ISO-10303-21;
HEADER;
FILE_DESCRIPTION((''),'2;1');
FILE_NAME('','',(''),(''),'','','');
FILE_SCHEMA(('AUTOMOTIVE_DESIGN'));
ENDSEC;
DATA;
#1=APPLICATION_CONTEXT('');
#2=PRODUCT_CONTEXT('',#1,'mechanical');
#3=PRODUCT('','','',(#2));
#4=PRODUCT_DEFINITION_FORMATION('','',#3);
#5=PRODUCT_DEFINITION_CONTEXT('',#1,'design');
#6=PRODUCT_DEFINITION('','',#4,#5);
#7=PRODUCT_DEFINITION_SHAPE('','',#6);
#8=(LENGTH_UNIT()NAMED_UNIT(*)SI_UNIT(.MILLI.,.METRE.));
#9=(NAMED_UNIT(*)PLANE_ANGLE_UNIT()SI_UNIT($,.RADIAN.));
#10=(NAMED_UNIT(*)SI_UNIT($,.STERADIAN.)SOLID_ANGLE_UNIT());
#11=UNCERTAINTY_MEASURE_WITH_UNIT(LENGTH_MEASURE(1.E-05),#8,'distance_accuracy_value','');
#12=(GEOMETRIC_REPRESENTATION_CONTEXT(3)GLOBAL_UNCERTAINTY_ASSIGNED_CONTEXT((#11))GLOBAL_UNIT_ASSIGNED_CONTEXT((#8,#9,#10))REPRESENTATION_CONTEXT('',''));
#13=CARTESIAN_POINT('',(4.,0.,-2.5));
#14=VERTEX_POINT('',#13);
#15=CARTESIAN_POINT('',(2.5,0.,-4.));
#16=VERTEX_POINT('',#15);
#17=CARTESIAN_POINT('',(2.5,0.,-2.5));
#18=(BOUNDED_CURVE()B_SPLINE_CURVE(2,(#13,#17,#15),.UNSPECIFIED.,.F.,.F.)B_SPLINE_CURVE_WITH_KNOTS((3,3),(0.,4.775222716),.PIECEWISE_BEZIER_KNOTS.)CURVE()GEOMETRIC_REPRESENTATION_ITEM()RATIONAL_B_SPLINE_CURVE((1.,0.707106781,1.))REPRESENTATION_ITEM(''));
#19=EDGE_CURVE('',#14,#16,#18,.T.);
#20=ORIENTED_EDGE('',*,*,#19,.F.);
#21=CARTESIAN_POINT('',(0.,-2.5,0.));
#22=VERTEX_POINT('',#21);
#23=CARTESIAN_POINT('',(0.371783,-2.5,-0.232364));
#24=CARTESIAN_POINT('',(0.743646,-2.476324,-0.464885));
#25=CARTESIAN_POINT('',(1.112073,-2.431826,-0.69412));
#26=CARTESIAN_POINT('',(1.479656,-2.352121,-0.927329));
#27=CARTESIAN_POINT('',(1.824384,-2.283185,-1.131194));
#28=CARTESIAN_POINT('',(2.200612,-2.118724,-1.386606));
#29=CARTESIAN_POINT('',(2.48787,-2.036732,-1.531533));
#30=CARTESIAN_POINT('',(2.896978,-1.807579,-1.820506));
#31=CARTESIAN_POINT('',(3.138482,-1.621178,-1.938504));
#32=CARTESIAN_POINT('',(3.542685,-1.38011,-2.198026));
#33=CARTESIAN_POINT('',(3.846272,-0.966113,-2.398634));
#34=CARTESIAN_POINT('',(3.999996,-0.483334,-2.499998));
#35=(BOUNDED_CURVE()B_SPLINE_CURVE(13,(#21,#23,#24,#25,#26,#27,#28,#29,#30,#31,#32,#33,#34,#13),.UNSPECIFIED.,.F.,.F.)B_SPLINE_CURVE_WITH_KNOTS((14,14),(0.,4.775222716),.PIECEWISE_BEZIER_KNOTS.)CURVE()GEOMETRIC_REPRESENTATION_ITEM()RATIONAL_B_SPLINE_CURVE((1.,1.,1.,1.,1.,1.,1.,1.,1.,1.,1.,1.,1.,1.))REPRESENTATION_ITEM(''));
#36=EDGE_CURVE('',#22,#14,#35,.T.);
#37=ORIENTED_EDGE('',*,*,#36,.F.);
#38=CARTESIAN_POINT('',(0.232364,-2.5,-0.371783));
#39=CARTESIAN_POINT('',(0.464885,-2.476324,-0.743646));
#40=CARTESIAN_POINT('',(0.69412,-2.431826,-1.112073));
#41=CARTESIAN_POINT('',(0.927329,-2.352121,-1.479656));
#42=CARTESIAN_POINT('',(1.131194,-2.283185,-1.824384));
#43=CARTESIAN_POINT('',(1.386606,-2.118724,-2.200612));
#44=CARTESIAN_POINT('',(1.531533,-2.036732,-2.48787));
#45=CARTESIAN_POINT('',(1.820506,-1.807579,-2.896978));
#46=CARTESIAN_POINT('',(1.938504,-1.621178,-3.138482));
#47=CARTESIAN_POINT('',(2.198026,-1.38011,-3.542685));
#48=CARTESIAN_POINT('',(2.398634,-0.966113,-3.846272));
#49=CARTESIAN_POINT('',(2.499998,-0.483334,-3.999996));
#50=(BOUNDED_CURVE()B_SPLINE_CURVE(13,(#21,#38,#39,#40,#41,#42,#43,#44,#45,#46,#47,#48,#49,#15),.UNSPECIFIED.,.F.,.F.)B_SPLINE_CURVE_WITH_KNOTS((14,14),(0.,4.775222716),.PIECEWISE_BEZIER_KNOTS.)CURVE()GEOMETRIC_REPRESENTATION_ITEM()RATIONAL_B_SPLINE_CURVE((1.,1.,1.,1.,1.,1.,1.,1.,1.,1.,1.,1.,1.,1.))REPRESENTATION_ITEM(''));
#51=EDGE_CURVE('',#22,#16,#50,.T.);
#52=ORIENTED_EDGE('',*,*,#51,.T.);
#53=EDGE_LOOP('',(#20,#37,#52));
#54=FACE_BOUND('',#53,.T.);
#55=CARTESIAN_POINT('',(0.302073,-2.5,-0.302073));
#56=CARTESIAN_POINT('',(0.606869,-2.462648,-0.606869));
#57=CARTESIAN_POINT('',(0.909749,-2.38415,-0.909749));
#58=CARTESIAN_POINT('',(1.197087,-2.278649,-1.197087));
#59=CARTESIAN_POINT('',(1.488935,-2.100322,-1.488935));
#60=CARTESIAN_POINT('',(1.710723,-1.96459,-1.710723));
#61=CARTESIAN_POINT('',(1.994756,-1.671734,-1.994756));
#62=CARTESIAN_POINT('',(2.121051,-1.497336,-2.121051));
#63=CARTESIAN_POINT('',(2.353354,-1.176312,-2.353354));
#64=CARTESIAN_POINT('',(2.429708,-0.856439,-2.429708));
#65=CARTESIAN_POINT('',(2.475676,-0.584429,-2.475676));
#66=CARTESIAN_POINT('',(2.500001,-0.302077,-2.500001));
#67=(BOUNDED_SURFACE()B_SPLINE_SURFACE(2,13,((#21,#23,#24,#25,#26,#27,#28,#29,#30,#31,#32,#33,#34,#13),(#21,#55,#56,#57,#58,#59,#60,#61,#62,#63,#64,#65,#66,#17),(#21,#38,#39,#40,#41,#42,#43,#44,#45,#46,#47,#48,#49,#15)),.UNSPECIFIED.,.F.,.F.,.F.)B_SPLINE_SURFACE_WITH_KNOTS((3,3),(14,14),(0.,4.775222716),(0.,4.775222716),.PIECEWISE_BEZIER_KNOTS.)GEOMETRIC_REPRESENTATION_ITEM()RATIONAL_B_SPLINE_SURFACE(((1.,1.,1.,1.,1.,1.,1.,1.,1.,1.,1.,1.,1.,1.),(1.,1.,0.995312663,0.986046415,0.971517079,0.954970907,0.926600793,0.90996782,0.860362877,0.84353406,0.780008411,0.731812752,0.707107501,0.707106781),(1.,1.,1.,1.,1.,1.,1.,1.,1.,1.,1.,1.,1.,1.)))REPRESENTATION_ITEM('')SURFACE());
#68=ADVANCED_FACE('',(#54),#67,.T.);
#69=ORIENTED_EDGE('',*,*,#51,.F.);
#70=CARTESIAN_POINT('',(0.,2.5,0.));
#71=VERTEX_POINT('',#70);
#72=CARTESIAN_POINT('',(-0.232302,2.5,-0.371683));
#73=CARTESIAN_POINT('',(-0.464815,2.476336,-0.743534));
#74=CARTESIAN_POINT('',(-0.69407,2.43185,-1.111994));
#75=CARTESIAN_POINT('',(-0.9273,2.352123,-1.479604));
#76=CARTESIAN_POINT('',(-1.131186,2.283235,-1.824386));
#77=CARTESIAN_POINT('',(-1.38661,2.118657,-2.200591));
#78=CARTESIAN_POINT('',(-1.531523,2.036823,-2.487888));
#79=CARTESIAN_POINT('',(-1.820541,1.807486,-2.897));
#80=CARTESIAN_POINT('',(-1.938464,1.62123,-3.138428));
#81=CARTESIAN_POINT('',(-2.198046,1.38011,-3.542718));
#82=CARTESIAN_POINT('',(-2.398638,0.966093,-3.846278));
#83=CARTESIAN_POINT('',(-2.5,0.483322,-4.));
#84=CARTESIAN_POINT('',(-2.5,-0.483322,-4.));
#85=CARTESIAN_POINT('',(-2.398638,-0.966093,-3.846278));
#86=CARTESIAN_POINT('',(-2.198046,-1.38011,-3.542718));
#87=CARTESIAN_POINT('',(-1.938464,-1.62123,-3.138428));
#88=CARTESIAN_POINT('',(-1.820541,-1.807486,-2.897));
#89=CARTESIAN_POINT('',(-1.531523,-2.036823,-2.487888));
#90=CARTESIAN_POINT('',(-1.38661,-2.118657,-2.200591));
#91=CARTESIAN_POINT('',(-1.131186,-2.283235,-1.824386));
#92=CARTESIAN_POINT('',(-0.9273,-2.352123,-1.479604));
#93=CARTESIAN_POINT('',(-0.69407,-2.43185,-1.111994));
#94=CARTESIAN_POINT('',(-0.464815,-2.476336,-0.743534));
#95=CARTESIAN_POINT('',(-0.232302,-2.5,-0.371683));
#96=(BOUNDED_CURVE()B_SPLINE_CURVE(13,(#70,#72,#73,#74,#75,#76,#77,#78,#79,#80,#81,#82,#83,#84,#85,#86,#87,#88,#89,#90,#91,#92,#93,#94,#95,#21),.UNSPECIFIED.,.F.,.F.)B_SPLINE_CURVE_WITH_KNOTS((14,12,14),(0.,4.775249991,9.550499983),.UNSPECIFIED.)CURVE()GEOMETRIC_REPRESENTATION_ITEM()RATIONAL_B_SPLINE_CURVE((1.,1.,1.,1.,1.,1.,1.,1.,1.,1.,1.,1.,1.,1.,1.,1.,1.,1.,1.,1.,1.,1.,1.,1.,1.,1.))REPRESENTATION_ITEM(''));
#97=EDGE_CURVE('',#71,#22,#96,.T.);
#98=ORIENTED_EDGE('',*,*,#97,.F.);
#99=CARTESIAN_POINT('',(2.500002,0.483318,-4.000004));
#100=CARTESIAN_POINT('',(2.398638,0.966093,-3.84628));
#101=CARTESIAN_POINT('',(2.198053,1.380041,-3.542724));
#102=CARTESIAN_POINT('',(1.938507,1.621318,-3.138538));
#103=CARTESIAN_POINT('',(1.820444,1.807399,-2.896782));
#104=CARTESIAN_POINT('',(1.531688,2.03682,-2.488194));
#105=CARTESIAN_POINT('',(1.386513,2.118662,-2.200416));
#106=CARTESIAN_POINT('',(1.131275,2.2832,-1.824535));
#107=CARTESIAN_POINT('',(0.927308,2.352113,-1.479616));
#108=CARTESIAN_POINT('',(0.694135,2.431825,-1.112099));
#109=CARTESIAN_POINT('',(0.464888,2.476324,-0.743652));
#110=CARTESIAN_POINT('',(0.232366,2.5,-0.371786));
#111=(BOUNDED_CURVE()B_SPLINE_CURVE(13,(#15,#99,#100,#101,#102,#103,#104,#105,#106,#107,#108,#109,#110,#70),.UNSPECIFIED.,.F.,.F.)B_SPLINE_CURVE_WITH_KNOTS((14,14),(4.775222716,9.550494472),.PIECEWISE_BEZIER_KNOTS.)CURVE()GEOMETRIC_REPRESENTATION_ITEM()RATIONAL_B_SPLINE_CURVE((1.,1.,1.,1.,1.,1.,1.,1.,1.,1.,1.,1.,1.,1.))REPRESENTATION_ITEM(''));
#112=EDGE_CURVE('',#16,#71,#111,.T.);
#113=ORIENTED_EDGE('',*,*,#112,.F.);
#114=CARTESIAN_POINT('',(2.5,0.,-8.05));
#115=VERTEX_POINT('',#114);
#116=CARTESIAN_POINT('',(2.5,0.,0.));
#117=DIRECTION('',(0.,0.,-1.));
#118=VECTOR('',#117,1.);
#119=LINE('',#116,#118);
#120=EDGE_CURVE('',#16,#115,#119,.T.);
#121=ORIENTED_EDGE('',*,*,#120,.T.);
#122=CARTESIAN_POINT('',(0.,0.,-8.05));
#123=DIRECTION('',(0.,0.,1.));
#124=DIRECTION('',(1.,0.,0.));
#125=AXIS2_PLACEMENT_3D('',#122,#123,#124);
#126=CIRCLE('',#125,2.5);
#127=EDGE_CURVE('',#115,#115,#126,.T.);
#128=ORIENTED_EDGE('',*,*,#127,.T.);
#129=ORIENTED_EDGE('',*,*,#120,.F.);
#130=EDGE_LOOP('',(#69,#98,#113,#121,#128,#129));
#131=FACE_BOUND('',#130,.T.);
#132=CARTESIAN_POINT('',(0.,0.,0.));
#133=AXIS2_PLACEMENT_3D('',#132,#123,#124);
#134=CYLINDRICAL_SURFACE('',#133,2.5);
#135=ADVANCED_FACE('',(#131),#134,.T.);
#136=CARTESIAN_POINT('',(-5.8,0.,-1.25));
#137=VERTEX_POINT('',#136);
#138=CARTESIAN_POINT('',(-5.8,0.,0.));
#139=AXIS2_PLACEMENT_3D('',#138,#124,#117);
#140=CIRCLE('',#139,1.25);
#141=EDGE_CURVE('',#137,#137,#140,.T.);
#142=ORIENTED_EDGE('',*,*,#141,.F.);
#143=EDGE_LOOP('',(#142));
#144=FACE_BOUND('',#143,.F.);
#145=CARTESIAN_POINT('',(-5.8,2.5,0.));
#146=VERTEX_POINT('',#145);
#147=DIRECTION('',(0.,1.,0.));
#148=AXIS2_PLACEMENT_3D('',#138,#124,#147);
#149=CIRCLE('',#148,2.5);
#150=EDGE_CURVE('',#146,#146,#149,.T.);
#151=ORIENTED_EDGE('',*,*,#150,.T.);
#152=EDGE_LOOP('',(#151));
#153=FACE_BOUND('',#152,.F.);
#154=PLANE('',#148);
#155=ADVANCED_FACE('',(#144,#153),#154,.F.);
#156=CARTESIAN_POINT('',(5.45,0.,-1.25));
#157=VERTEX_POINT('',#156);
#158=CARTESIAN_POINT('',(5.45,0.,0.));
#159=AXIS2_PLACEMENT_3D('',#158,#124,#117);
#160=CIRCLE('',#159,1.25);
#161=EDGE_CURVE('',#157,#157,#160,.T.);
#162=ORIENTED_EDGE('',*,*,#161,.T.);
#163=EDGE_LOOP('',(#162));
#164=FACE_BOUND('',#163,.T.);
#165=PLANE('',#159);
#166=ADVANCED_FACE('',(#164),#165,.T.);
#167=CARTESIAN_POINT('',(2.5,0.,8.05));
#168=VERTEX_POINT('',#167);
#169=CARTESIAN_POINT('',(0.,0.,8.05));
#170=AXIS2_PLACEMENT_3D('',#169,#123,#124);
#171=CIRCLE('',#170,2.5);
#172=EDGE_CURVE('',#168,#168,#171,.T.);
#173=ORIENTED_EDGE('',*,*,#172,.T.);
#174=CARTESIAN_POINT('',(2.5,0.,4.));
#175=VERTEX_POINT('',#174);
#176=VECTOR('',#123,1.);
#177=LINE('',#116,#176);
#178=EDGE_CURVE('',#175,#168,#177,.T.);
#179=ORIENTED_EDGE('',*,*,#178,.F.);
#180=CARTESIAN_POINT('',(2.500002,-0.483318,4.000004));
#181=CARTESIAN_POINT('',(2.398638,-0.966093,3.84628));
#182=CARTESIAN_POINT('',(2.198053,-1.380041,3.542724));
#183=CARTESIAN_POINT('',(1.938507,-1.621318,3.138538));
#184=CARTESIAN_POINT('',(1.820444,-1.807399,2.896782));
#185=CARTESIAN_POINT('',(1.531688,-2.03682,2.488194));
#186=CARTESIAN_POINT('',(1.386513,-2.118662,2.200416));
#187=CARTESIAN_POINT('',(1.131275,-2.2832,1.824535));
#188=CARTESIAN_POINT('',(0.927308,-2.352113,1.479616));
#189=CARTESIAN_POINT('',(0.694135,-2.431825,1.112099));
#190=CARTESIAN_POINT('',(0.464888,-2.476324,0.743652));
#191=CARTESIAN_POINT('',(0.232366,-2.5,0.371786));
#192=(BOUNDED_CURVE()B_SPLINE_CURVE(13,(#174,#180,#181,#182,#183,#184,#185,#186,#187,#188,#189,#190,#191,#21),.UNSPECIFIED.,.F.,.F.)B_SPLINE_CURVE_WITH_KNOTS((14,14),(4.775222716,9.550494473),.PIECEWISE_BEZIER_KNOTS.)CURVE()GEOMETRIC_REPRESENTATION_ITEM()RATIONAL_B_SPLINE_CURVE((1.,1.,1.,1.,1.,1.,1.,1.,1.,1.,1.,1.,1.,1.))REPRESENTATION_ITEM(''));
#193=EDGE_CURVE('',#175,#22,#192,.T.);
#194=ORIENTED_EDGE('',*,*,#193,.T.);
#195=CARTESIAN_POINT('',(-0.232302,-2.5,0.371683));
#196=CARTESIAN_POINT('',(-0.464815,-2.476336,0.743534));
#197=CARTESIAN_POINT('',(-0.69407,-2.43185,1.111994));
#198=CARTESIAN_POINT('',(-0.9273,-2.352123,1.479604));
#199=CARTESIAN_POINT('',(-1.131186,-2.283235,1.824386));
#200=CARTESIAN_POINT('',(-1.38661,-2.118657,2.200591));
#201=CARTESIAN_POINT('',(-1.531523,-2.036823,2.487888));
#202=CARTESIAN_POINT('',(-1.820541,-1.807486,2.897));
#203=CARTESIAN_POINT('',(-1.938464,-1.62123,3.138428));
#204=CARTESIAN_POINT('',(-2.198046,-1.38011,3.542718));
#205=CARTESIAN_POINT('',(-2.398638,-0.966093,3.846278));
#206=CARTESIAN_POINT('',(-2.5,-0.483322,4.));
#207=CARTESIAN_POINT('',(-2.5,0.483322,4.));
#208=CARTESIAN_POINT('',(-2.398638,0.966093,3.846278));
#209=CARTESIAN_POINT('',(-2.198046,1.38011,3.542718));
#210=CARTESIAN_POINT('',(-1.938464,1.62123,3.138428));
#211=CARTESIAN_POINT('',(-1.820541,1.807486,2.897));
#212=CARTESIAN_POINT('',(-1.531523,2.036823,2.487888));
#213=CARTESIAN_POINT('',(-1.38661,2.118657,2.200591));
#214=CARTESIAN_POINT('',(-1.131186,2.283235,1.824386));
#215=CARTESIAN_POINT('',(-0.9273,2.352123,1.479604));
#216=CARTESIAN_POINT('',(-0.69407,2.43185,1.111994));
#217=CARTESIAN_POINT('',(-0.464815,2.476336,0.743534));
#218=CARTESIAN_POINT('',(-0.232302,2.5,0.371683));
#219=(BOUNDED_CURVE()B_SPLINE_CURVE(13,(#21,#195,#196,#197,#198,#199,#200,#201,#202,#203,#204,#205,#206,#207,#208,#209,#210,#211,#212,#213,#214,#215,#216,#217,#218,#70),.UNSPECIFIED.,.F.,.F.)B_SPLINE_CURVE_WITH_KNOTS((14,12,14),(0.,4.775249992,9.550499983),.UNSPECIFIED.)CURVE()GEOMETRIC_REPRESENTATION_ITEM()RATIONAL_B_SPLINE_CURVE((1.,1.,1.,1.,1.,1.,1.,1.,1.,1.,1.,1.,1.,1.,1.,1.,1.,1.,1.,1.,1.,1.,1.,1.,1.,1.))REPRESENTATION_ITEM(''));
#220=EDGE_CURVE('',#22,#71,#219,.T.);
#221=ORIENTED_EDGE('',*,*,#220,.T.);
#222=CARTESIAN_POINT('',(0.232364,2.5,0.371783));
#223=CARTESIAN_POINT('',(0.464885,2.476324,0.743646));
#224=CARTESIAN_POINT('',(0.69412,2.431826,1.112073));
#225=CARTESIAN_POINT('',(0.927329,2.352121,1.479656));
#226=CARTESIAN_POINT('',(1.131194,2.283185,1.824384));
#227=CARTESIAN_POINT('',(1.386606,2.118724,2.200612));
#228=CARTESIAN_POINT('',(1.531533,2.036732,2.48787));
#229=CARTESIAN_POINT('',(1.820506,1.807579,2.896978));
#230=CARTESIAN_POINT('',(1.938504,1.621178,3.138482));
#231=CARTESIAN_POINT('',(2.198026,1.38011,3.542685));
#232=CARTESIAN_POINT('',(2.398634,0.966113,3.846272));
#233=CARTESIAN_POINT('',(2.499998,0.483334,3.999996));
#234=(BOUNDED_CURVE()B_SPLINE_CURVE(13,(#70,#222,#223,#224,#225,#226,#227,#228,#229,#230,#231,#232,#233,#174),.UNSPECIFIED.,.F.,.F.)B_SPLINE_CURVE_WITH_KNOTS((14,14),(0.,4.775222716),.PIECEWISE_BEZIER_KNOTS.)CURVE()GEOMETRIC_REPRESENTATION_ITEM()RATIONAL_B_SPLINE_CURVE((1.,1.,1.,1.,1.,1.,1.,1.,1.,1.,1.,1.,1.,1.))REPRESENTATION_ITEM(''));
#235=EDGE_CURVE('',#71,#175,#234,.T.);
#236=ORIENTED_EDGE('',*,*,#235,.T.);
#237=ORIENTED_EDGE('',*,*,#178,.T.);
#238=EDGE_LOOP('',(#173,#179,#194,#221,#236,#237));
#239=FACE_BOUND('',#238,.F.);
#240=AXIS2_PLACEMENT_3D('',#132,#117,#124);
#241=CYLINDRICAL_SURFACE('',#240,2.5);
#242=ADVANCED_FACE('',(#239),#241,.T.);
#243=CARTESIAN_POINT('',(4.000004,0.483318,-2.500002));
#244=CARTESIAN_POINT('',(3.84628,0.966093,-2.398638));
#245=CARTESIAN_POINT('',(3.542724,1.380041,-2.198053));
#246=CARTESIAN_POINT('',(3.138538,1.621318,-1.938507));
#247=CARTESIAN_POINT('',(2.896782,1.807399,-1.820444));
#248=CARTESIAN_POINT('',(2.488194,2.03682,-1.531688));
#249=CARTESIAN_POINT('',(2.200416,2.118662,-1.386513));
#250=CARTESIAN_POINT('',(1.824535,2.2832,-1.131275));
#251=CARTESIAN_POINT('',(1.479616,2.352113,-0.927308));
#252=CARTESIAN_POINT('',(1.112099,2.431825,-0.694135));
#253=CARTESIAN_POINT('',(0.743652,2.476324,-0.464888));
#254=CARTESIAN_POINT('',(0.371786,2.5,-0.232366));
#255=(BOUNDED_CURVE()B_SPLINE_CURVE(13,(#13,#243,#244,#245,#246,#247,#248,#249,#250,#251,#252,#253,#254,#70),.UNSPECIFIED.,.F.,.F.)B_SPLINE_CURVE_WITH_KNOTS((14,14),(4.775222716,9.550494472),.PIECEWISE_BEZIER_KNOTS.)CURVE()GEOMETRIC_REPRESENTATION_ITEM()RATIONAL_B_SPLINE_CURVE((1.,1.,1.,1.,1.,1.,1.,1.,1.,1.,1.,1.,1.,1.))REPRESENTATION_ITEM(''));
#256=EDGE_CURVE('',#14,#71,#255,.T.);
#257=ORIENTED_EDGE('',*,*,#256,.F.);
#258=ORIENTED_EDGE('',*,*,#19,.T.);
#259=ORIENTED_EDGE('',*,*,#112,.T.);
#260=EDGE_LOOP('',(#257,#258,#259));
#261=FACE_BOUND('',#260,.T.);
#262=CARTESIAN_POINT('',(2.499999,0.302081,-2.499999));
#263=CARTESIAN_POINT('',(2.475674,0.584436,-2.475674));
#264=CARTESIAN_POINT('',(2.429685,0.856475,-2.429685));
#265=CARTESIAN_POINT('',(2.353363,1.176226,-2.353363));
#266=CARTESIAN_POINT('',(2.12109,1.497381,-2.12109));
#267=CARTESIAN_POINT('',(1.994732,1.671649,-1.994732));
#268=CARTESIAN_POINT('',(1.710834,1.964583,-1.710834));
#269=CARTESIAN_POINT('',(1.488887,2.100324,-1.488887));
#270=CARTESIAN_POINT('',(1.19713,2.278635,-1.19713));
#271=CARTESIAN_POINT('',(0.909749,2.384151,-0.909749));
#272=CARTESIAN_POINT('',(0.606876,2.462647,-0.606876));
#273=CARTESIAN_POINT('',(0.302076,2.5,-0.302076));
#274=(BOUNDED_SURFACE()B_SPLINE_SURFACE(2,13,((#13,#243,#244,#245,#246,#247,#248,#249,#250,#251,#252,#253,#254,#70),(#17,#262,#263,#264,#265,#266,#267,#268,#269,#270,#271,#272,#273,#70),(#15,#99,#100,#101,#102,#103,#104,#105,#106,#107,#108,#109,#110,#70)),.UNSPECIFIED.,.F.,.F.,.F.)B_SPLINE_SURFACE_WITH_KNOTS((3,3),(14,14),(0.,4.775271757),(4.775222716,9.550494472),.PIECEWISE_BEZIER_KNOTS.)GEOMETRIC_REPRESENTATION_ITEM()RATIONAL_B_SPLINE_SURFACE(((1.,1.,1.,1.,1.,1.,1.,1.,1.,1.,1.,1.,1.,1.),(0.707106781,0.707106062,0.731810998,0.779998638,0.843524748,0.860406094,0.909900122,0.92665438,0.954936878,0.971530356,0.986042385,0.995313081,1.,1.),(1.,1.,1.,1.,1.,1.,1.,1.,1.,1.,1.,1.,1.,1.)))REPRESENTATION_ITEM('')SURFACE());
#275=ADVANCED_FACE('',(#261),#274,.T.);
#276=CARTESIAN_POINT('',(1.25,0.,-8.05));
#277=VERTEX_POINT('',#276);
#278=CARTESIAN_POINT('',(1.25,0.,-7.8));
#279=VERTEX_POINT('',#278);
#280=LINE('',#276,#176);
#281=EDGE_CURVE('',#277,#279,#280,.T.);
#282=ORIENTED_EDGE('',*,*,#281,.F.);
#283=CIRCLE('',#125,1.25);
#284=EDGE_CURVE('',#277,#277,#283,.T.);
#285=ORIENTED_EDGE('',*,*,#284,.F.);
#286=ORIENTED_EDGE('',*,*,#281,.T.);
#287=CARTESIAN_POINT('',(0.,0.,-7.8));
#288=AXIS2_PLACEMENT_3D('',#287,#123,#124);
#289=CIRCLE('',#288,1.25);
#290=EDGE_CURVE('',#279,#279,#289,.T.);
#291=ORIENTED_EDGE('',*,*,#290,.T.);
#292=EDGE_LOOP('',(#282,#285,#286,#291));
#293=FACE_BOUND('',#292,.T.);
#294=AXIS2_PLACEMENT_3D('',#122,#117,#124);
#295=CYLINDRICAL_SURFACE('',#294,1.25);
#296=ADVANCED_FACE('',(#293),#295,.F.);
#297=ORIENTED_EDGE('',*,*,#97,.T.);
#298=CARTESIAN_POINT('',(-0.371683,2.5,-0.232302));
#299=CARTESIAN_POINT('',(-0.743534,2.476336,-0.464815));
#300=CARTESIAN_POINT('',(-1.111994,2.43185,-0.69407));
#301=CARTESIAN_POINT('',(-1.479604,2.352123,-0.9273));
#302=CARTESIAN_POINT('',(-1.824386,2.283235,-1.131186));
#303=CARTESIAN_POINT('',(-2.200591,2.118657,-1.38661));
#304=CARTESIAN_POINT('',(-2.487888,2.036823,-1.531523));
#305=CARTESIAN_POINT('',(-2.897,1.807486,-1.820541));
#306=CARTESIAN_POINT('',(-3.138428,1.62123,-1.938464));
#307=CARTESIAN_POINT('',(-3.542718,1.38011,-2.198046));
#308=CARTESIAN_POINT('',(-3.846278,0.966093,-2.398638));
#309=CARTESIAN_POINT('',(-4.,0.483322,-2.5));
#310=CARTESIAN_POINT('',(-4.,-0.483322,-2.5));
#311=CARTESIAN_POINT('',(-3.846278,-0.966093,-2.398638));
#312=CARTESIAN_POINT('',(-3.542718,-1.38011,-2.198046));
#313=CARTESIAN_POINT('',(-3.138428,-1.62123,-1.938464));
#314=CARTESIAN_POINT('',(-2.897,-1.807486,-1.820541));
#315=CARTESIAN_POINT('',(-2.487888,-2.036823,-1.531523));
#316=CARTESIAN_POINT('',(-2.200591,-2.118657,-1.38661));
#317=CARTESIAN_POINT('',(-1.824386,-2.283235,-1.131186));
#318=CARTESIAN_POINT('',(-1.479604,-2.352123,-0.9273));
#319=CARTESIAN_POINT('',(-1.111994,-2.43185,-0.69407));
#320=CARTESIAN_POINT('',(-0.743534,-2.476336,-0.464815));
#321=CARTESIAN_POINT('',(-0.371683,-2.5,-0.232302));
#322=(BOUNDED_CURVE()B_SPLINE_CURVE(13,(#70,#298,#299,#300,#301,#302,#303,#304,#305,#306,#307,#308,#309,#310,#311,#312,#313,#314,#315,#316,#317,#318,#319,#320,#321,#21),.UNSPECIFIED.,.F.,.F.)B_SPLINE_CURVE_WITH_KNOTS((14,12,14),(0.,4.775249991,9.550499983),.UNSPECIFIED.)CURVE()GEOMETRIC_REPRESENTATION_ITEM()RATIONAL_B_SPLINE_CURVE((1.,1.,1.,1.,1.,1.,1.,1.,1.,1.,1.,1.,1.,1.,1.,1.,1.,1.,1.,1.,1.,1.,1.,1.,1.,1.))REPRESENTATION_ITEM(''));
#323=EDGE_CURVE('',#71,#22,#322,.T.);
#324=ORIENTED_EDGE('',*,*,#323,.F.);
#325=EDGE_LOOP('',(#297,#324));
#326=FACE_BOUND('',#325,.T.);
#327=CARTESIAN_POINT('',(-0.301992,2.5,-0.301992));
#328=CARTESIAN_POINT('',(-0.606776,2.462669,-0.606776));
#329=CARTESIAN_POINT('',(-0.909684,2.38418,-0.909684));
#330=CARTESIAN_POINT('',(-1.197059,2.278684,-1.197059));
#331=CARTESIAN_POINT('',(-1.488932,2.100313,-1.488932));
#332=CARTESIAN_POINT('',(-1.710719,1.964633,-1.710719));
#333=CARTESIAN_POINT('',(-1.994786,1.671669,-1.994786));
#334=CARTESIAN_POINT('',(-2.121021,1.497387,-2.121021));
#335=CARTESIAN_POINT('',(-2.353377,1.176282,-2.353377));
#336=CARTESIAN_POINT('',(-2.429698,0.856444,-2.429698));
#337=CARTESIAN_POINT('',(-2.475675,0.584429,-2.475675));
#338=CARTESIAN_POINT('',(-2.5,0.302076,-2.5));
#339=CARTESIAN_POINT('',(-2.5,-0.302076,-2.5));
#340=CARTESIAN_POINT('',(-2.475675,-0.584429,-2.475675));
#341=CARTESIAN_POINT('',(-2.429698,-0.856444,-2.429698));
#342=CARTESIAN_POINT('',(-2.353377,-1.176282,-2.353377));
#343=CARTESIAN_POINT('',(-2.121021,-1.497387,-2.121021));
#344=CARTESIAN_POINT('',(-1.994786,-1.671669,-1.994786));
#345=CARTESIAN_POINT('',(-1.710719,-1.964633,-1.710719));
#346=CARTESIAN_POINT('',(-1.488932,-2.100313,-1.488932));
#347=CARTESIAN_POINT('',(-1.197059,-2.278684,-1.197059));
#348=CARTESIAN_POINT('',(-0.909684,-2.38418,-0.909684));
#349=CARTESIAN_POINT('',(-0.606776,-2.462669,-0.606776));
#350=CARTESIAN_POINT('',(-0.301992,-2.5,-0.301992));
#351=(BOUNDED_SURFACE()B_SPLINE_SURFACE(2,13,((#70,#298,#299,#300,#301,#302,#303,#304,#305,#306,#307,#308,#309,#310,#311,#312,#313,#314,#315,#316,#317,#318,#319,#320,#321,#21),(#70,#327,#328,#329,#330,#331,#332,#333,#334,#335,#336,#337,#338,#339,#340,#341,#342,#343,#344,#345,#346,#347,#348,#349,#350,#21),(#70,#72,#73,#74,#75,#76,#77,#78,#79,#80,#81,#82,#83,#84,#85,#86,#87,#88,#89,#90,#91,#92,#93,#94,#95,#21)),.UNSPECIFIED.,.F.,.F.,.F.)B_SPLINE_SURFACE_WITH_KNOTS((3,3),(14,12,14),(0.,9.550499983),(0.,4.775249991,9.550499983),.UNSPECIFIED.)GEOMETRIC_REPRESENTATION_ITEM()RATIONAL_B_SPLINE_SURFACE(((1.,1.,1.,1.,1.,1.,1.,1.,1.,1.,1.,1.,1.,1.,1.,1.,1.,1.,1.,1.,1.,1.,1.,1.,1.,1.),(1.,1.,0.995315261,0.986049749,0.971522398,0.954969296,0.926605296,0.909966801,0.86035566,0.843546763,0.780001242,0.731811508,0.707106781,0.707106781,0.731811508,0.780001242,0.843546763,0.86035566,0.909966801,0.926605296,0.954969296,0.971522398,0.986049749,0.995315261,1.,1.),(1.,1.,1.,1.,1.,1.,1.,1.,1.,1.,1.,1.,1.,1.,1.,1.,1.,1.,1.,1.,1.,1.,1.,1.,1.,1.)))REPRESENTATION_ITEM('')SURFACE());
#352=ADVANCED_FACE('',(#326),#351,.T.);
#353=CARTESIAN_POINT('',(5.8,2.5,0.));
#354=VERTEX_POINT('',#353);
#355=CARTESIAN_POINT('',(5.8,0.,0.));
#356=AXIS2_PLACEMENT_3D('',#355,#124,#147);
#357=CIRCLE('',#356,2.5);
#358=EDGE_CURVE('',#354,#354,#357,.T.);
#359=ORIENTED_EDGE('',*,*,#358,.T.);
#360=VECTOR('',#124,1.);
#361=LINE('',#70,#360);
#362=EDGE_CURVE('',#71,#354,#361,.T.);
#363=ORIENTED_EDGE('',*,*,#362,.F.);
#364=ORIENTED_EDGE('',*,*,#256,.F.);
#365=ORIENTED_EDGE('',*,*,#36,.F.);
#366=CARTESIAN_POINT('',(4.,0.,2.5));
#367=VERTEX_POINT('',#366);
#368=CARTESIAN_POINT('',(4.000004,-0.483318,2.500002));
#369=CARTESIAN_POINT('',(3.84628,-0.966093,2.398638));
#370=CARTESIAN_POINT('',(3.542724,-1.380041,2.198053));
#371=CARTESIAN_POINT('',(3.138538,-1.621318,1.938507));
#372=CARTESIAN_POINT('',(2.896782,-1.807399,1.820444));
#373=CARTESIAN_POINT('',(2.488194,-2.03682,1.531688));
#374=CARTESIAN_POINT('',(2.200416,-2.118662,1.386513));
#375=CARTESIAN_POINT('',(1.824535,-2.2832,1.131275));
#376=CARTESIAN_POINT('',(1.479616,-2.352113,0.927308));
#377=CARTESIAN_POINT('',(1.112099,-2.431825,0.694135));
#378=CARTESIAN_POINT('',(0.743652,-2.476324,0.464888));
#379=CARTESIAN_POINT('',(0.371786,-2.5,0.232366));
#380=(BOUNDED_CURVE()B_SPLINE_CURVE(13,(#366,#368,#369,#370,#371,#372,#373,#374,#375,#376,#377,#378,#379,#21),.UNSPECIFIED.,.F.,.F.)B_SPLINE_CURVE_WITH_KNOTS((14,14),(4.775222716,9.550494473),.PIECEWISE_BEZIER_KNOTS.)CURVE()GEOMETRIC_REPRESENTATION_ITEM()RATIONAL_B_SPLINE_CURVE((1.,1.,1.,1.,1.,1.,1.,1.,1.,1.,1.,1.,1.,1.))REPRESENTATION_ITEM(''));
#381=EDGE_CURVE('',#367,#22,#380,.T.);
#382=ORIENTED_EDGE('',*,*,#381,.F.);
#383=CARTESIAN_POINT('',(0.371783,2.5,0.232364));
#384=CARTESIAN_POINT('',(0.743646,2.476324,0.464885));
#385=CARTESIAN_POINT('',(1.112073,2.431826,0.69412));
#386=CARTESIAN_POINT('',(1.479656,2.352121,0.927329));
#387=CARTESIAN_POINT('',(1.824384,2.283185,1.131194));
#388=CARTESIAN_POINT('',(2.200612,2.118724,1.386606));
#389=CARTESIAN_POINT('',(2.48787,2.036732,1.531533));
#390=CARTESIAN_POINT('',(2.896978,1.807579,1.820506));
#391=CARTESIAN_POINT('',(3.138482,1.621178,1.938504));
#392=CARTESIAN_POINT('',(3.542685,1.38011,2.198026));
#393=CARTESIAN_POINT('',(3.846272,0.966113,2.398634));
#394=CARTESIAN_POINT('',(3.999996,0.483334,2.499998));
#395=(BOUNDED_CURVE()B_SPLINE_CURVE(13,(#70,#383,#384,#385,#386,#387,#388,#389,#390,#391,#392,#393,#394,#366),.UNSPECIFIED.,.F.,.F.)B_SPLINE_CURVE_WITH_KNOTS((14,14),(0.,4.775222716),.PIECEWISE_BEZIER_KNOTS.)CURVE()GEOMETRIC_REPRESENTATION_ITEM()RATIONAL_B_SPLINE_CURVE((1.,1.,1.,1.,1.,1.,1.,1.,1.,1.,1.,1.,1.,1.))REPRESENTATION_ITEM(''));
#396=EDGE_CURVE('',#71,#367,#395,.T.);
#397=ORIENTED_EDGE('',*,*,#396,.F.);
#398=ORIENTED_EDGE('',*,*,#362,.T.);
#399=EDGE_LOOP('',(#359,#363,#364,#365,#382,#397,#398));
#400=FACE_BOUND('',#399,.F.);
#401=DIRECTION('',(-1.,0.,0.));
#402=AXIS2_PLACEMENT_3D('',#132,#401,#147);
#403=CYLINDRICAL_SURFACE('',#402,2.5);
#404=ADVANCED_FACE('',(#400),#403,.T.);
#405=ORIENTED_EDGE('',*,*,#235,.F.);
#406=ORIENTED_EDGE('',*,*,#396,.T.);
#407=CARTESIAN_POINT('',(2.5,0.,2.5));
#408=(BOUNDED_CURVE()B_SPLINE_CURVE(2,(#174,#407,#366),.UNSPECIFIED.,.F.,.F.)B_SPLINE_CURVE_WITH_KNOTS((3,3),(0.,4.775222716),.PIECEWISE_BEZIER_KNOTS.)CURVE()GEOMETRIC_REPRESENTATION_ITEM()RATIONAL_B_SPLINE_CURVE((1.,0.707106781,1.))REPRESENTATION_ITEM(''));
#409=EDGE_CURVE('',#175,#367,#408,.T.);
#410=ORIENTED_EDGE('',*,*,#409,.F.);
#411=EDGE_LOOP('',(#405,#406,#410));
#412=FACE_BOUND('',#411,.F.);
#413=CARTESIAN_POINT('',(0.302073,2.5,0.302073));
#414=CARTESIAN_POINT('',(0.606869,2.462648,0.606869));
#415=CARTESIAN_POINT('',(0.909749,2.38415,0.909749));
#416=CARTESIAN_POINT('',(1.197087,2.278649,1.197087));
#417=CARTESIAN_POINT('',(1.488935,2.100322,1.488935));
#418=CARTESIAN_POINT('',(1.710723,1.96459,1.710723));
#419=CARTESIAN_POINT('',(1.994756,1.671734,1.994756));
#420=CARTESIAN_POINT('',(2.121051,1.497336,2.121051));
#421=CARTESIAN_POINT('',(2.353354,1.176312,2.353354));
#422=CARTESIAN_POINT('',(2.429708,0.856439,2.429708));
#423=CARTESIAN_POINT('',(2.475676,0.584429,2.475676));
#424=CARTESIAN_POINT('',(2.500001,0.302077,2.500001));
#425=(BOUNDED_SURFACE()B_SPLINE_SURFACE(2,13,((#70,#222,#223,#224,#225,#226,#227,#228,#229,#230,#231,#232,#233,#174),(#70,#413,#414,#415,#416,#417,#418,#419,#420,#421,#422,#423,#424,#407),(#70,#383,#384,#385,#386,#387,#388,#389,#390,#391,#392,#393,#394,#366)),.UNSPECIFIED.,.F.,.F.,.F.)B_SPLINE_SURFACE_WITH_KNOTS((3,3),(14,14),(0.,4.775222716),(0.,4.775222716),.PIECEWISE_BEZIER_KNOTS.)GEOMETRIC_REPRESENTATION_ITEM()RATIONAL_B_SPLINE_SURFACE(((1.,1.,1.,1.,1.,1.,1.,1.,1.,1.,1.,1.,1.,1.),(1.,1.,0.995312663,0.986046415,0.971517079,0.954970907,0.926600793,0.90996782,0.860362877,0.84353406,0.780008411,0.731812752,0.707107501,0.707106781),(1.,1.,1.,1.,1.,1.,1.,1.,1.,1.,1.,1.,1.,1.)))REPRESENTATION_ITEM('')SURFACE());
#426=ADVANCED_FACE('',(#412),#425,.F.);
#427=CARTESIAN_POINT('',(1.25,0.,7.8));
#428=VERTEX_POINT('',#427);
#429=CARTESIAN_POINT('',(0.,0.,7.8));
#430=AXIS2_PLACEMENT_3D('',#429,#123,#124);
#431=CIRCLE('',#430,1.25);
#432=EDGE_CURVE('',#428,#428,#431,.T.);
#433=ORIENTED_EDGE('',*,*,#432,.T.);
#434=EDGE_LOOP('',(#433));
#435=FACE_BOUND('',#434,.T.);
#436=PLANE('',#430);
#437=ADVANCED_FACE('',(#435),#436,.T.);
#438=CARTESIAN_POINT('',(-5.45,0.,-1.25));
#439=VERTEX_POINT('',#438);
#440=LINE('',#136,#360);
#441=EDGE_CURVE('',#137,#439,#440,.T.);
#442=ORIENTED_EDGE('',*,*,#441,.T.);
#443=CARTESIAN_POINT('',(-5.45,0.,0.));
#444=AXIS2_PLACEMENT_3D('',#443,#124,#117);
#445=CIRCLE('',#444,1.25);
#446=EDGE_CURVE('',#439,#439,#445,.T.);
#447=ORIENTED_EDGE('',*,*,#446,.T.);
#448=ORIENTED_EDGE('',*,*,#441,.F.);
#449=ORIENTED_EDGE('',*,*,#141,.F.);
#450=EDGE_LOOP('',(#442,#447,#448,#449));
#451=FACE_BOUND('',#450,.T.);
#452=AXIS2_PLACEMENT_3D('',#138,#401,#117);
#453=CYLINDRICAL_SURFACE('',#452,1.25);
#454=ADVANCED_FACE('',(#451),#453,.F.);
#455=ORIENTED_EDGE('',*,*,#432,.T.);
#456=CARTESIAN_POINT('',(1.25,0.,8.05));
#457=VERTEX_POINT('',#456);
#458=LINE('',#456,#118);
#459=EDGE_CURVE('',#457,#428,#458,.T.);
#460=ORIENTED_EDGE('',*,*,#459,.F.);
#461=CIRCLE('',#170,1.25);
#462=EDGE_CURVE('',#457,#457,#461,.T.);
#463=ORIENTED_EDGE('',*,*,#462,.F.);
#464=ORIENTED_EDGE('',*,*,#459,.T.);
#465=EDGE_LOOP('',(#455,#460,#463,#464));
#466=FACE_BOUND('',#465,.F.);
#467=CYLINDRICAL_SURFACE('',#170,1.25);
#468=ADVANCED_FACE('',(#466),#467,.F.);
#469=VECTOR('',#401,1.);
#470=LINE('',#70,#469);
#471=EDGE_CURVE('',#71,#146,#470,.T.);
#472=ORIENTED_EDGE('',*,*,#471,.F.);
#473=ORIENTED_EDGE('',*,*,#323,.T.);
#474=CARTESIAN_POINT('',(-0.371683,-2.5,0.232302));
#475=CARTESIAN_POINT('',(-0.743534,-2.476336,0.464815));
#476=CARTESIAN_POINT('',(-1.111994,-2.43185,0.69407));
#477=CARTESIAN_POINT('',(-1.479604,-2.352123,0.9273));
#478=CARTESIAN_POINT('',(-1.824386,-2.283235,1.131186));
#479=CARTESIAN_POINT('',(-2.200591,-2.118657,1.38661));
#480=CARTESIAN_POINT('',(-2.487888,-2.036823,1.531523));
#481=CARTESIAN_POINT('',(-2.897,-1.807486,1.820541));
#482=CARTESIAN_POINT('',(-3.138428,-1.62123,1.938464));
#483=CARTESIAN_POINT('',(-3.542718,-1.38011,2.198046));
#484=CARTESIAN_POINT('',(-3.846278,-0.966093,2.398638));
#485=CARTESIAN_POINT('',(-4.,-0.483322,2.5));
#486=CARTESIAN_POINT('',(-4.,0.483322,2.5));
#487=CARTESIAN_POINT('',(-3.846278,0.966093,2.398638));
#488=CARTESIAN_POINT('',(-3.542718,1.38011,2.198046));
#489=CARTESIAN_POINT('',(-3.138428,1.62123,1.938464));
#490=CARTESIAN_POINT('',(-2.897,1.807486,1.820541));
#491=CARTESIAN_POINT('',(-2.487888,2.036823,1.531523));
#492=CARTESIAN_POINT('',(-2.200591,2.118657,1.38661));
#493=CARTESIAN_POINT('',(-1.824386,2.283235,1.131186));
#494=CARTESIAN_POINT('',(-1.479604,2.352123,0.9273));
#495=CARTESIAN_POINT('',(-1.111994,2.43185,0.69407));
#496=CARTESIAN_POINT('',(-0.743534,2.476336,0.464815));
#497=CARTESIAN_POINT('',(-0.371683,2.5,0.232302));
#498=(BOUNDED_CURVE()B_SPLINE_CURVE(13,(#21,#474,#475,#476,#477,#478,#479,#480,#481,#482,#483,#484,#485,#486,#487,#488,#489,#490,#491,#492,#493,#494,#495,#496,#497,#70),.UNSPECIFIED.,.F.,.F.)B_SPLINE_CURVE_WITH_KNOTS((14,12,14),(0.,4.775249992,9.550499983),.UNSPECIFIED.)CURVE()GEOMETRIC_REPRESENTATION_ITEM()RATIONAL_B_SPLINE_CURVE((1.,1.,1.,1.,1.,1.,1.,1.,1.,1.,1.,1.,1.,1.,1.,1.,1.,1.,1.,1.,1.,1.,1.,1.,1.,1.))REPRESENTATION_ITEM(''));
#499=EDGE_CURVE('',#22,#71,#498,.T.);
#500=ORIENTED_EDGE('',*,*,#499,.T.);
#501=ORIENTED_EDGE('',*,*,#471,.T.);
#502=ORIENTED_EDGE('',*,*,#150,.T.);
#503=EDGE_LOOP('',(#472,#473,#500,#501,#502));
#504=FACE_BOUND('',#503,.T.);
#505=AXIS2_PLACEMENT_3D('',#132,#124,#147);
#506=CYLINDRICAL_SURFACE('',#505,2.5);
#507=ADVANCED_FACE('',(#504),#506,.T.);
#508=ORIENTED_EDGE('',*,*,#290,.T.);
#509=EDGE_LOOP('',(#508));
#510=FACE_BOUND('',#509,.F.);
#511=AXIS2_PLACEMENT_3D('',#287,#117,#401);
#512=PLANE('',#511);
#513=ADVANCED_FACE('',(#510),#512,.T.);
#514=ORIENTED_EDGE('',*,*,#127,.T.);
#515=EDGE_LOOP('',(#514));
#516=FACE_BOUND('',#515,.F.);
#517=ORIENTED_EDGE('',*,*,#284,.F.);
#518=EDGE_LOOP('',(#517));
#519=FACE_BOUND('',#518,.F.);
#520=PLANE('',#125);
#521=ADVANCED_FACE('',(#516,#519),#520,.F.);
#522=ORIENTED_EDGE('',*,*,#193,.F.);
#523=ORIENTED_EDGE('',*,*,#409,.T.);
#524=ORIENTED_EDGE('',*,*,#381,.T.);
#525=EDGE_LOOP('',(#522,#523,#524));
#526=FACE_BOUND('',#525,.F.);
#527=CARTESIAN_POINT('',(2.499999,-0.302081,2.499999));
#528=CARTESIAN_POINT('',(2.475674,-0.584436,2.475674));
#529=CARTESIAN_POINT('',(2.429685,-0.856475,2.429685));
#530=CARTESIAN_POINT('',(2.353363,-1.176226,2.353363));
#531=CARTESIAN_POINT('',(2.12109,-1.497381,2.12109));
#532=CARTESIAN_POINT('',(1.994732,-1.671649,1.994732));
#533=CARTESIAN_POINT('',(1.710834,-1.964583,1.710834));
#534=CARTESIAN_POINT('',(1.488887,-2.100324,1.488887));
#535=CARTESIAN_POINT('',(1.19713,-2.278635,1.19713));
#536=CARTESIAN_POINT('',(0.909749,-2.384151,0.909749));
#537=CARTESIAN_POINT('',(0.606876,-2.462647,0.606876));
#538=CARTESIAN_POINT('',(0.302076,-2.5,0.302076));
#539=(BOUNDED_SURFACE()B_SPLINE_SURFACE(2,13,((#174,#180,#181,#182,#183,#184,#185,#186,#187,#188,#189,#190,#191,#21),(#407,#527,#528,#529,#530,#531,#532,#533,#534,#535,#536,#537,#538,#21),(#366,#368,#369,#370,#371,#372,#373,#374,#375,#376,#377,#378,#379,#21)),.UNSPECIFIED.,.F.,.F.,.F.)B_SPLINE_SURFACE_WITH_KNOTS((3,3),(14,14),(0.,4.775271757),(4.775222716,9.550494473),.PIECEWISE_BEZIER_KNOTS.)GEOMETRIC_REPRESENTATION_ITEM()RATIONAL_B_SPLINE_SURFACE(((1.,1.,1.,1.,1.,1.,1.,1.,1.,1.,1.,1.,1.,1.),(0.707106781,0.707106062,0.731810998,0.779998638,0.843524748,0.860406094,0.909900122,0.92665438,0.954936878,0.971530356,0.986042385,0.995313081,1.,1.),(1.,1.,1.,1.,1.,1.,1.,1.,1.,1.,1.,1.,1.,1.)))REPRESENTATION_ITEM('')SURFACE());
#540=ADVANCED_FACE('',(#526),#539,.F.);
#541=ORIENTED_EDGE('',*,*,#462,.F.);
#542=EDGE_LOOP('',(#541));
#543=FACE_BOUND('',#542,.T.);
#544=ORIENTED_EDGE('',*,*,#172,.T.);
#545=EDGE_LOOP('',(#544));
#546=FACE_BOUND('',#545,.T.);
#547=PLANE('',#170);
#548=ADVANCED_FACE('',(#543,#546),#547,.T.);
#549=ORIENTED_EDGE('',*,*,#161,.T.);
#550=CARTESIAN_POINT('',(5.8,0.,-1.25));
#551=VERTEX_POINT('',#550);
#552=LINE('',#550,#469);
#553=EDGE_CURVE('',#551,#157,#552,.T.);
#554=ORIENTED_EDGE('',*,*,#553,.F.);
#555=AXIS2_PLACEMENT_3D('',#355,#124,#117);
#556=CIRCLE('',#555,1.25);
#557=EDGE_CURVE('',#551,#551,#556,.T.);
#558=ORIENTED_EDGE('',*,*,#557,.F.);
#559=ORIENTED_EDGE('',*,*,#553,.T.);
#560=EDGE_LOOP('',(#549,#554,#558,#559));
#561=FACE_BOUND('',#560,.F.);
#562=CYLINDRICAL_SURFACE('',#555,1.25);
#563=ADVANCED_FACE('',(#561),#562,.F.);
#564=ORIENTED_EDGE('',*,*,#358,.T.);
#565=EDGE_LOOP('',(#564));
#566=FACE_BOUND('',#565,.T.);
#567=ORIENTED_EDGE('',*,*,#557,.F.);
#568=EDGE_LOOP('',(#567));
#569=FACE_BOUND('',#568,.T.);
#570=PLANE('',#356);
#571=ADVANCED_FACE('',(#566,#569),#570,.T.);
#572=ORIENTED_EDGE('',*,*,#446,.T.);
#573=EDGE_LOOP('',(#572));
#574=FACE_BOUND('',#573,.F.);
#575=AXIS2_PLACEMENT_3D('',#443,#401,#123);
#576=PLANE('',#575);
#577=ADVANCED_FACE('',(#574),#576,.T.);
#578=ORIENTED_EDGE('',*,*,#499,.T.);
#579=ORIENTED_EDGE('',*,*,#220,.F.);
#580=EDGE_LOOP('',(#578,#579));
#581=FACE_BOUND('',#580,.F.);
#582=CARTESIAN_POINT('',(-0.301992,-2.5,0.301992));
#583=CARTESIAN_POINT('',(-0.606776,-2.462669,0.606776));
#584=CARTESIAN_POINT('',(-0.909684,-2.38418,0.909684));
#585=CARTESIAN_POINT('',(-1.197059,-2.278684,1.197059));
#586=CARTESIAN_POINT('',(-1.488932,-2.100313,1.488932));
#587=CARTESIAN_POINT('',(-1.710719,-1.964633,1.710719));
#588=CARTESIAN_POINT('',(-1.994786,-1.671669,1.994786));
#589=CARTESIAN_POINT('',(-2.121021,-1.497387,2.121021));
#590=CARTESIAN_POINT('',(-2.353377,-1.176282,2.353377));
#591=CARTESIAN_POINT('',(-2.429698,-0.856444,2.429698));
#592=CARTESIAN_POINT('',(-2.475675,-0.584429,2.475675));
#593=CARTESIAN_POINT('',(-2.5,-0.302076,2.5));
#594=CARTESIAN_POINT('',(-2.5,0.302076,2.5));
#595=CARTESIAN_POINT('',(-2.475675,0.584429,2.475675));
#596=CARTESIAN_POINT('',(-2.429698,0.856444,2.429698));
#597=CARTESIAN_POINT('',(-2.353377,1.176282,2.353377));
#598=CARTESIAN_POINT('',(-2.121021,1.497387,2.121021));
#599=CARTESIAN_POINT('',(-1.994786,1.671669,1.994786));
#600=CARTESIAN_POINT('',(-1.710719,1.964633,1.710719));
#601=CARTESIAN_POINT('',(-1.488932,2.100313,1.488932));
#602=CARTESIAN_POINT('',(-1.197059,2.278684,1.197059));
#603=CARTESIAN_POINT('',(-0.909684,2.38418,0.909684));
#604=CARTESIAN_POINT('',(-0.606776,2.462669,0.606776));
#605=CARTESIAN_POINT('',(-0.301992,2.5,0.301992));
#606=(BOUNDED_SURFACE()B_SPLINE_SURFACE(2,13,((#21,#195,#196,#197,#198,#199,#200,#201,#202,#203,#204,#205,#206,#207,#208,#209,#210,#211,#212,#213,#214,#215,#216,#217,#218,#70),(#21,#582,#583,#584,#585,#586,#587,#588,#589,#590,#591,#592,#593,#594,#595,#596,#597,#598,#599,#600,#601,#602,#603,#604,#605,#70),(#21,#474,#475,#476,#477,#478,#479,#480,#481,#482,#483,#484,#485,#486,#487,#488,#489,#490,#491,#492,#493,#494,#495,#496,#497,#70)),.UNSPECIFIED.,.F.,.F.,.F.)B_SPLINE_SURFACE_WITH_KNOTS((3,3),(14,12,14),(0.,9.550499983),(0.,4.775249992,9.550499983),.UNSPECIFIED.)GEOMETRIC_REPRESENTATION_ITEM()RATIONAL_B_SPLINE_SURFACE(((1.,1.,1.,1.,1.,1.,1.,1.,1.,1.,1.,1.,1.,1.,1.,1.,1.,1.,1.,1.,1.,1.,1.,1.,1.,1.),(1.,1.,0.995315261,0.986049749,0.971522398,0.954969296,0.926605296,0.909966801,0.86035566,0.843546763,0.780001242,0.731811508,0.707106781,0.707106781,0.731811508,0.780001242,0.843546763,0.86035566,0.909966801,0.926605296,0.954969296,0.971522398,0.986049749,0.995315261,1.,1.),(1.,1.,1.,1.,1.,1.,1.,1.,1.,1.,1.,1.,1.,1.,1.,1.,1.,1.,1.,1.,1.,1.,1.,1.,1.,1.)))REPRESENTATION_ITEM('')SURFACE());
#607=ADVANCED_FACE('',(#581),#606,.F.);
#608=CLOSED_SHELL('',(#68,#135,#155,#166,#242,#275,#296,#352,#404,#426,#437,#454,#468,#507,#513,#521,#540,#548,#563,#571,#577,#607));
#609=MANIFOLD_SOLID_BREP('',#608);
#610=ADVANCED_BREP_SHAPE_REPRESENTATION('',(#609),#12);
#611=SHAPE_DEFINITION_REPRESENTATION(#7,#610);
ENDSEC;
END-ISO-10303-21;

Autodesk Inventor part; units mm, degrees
ref_plane "YZ Plane" through (0, 0, 0) normal (1, 0, 0) x (0, 1, 0)
ref_plane "XZ Plane" through (0, 0, 0) normal (0, 1, 0) x (-1, 0, 0)
ref_plane "XY Plane" through (0, 0, 0) normal (0, 0, 1) x (1, 0, 0)
sketch "Sketch1" plane through (0, 0, 0) normal (0, 0, 1) x (1, 0, 0)
  circle A0 centre (0, 0) radius 2.5
  dimension "d0" = 5
extrude "Extrusion1" add sketch "Sketch1" along normal mid plane 16.1
sketch "Sketch2" plane through (0, 0, 8.05) normal (0, 0, 1) x (1, 0, 0)
  circle A0 centre (0, 0) radius 1.25
  dimension "d3" = 2.5
extrude "Extrusion2" cut sketch "Sketch2" against normal blind 0.25
mirror "Mirror1" about plane through (0, 0, 0) normal (0, 0, 1) of "Extrusion2"
sketch "Sketch3" plane through (0, 0, 0) normal (1, 0, 0) x (0, 1, 0)
  circle A0 centre (0, 0) radius 2.5
  dimension "d6" = 5
extrude "Extrusion3" add sketch "Sketch3" along normal mid plane 11.6
sketch "Sketch4" plane through (5.8, 0, 0) normal (1, 0, 0) x (0, 0, -1)
  circle A0 centre (0, 0) radius 1.25
  dimension "d9" = 2.5
extrude "Extrusion4" cut sketch "Sketch4" against normal blind 0.35
mirror "Mirror2" about plane through (0, 0, 0) normal (1, 0, 0) of "Extrusion4"
fillet "Fillet1" radius 1.5 6 edges at (1.7678, 1.7678, 1.7678) (-2.5, 0, 2.5) (1.7678, -1.7678, 1.7678) (1.7678, -1.7678, -1.7678) (1.7678, 1.7678, -1.7678) (-2.5, 0, -2.5)
ref_plane "Work Plane1" through (0, 0, 0) normal (1, 0, 0) x (0, 1, 0)
properties part number "Cross_Normal"
